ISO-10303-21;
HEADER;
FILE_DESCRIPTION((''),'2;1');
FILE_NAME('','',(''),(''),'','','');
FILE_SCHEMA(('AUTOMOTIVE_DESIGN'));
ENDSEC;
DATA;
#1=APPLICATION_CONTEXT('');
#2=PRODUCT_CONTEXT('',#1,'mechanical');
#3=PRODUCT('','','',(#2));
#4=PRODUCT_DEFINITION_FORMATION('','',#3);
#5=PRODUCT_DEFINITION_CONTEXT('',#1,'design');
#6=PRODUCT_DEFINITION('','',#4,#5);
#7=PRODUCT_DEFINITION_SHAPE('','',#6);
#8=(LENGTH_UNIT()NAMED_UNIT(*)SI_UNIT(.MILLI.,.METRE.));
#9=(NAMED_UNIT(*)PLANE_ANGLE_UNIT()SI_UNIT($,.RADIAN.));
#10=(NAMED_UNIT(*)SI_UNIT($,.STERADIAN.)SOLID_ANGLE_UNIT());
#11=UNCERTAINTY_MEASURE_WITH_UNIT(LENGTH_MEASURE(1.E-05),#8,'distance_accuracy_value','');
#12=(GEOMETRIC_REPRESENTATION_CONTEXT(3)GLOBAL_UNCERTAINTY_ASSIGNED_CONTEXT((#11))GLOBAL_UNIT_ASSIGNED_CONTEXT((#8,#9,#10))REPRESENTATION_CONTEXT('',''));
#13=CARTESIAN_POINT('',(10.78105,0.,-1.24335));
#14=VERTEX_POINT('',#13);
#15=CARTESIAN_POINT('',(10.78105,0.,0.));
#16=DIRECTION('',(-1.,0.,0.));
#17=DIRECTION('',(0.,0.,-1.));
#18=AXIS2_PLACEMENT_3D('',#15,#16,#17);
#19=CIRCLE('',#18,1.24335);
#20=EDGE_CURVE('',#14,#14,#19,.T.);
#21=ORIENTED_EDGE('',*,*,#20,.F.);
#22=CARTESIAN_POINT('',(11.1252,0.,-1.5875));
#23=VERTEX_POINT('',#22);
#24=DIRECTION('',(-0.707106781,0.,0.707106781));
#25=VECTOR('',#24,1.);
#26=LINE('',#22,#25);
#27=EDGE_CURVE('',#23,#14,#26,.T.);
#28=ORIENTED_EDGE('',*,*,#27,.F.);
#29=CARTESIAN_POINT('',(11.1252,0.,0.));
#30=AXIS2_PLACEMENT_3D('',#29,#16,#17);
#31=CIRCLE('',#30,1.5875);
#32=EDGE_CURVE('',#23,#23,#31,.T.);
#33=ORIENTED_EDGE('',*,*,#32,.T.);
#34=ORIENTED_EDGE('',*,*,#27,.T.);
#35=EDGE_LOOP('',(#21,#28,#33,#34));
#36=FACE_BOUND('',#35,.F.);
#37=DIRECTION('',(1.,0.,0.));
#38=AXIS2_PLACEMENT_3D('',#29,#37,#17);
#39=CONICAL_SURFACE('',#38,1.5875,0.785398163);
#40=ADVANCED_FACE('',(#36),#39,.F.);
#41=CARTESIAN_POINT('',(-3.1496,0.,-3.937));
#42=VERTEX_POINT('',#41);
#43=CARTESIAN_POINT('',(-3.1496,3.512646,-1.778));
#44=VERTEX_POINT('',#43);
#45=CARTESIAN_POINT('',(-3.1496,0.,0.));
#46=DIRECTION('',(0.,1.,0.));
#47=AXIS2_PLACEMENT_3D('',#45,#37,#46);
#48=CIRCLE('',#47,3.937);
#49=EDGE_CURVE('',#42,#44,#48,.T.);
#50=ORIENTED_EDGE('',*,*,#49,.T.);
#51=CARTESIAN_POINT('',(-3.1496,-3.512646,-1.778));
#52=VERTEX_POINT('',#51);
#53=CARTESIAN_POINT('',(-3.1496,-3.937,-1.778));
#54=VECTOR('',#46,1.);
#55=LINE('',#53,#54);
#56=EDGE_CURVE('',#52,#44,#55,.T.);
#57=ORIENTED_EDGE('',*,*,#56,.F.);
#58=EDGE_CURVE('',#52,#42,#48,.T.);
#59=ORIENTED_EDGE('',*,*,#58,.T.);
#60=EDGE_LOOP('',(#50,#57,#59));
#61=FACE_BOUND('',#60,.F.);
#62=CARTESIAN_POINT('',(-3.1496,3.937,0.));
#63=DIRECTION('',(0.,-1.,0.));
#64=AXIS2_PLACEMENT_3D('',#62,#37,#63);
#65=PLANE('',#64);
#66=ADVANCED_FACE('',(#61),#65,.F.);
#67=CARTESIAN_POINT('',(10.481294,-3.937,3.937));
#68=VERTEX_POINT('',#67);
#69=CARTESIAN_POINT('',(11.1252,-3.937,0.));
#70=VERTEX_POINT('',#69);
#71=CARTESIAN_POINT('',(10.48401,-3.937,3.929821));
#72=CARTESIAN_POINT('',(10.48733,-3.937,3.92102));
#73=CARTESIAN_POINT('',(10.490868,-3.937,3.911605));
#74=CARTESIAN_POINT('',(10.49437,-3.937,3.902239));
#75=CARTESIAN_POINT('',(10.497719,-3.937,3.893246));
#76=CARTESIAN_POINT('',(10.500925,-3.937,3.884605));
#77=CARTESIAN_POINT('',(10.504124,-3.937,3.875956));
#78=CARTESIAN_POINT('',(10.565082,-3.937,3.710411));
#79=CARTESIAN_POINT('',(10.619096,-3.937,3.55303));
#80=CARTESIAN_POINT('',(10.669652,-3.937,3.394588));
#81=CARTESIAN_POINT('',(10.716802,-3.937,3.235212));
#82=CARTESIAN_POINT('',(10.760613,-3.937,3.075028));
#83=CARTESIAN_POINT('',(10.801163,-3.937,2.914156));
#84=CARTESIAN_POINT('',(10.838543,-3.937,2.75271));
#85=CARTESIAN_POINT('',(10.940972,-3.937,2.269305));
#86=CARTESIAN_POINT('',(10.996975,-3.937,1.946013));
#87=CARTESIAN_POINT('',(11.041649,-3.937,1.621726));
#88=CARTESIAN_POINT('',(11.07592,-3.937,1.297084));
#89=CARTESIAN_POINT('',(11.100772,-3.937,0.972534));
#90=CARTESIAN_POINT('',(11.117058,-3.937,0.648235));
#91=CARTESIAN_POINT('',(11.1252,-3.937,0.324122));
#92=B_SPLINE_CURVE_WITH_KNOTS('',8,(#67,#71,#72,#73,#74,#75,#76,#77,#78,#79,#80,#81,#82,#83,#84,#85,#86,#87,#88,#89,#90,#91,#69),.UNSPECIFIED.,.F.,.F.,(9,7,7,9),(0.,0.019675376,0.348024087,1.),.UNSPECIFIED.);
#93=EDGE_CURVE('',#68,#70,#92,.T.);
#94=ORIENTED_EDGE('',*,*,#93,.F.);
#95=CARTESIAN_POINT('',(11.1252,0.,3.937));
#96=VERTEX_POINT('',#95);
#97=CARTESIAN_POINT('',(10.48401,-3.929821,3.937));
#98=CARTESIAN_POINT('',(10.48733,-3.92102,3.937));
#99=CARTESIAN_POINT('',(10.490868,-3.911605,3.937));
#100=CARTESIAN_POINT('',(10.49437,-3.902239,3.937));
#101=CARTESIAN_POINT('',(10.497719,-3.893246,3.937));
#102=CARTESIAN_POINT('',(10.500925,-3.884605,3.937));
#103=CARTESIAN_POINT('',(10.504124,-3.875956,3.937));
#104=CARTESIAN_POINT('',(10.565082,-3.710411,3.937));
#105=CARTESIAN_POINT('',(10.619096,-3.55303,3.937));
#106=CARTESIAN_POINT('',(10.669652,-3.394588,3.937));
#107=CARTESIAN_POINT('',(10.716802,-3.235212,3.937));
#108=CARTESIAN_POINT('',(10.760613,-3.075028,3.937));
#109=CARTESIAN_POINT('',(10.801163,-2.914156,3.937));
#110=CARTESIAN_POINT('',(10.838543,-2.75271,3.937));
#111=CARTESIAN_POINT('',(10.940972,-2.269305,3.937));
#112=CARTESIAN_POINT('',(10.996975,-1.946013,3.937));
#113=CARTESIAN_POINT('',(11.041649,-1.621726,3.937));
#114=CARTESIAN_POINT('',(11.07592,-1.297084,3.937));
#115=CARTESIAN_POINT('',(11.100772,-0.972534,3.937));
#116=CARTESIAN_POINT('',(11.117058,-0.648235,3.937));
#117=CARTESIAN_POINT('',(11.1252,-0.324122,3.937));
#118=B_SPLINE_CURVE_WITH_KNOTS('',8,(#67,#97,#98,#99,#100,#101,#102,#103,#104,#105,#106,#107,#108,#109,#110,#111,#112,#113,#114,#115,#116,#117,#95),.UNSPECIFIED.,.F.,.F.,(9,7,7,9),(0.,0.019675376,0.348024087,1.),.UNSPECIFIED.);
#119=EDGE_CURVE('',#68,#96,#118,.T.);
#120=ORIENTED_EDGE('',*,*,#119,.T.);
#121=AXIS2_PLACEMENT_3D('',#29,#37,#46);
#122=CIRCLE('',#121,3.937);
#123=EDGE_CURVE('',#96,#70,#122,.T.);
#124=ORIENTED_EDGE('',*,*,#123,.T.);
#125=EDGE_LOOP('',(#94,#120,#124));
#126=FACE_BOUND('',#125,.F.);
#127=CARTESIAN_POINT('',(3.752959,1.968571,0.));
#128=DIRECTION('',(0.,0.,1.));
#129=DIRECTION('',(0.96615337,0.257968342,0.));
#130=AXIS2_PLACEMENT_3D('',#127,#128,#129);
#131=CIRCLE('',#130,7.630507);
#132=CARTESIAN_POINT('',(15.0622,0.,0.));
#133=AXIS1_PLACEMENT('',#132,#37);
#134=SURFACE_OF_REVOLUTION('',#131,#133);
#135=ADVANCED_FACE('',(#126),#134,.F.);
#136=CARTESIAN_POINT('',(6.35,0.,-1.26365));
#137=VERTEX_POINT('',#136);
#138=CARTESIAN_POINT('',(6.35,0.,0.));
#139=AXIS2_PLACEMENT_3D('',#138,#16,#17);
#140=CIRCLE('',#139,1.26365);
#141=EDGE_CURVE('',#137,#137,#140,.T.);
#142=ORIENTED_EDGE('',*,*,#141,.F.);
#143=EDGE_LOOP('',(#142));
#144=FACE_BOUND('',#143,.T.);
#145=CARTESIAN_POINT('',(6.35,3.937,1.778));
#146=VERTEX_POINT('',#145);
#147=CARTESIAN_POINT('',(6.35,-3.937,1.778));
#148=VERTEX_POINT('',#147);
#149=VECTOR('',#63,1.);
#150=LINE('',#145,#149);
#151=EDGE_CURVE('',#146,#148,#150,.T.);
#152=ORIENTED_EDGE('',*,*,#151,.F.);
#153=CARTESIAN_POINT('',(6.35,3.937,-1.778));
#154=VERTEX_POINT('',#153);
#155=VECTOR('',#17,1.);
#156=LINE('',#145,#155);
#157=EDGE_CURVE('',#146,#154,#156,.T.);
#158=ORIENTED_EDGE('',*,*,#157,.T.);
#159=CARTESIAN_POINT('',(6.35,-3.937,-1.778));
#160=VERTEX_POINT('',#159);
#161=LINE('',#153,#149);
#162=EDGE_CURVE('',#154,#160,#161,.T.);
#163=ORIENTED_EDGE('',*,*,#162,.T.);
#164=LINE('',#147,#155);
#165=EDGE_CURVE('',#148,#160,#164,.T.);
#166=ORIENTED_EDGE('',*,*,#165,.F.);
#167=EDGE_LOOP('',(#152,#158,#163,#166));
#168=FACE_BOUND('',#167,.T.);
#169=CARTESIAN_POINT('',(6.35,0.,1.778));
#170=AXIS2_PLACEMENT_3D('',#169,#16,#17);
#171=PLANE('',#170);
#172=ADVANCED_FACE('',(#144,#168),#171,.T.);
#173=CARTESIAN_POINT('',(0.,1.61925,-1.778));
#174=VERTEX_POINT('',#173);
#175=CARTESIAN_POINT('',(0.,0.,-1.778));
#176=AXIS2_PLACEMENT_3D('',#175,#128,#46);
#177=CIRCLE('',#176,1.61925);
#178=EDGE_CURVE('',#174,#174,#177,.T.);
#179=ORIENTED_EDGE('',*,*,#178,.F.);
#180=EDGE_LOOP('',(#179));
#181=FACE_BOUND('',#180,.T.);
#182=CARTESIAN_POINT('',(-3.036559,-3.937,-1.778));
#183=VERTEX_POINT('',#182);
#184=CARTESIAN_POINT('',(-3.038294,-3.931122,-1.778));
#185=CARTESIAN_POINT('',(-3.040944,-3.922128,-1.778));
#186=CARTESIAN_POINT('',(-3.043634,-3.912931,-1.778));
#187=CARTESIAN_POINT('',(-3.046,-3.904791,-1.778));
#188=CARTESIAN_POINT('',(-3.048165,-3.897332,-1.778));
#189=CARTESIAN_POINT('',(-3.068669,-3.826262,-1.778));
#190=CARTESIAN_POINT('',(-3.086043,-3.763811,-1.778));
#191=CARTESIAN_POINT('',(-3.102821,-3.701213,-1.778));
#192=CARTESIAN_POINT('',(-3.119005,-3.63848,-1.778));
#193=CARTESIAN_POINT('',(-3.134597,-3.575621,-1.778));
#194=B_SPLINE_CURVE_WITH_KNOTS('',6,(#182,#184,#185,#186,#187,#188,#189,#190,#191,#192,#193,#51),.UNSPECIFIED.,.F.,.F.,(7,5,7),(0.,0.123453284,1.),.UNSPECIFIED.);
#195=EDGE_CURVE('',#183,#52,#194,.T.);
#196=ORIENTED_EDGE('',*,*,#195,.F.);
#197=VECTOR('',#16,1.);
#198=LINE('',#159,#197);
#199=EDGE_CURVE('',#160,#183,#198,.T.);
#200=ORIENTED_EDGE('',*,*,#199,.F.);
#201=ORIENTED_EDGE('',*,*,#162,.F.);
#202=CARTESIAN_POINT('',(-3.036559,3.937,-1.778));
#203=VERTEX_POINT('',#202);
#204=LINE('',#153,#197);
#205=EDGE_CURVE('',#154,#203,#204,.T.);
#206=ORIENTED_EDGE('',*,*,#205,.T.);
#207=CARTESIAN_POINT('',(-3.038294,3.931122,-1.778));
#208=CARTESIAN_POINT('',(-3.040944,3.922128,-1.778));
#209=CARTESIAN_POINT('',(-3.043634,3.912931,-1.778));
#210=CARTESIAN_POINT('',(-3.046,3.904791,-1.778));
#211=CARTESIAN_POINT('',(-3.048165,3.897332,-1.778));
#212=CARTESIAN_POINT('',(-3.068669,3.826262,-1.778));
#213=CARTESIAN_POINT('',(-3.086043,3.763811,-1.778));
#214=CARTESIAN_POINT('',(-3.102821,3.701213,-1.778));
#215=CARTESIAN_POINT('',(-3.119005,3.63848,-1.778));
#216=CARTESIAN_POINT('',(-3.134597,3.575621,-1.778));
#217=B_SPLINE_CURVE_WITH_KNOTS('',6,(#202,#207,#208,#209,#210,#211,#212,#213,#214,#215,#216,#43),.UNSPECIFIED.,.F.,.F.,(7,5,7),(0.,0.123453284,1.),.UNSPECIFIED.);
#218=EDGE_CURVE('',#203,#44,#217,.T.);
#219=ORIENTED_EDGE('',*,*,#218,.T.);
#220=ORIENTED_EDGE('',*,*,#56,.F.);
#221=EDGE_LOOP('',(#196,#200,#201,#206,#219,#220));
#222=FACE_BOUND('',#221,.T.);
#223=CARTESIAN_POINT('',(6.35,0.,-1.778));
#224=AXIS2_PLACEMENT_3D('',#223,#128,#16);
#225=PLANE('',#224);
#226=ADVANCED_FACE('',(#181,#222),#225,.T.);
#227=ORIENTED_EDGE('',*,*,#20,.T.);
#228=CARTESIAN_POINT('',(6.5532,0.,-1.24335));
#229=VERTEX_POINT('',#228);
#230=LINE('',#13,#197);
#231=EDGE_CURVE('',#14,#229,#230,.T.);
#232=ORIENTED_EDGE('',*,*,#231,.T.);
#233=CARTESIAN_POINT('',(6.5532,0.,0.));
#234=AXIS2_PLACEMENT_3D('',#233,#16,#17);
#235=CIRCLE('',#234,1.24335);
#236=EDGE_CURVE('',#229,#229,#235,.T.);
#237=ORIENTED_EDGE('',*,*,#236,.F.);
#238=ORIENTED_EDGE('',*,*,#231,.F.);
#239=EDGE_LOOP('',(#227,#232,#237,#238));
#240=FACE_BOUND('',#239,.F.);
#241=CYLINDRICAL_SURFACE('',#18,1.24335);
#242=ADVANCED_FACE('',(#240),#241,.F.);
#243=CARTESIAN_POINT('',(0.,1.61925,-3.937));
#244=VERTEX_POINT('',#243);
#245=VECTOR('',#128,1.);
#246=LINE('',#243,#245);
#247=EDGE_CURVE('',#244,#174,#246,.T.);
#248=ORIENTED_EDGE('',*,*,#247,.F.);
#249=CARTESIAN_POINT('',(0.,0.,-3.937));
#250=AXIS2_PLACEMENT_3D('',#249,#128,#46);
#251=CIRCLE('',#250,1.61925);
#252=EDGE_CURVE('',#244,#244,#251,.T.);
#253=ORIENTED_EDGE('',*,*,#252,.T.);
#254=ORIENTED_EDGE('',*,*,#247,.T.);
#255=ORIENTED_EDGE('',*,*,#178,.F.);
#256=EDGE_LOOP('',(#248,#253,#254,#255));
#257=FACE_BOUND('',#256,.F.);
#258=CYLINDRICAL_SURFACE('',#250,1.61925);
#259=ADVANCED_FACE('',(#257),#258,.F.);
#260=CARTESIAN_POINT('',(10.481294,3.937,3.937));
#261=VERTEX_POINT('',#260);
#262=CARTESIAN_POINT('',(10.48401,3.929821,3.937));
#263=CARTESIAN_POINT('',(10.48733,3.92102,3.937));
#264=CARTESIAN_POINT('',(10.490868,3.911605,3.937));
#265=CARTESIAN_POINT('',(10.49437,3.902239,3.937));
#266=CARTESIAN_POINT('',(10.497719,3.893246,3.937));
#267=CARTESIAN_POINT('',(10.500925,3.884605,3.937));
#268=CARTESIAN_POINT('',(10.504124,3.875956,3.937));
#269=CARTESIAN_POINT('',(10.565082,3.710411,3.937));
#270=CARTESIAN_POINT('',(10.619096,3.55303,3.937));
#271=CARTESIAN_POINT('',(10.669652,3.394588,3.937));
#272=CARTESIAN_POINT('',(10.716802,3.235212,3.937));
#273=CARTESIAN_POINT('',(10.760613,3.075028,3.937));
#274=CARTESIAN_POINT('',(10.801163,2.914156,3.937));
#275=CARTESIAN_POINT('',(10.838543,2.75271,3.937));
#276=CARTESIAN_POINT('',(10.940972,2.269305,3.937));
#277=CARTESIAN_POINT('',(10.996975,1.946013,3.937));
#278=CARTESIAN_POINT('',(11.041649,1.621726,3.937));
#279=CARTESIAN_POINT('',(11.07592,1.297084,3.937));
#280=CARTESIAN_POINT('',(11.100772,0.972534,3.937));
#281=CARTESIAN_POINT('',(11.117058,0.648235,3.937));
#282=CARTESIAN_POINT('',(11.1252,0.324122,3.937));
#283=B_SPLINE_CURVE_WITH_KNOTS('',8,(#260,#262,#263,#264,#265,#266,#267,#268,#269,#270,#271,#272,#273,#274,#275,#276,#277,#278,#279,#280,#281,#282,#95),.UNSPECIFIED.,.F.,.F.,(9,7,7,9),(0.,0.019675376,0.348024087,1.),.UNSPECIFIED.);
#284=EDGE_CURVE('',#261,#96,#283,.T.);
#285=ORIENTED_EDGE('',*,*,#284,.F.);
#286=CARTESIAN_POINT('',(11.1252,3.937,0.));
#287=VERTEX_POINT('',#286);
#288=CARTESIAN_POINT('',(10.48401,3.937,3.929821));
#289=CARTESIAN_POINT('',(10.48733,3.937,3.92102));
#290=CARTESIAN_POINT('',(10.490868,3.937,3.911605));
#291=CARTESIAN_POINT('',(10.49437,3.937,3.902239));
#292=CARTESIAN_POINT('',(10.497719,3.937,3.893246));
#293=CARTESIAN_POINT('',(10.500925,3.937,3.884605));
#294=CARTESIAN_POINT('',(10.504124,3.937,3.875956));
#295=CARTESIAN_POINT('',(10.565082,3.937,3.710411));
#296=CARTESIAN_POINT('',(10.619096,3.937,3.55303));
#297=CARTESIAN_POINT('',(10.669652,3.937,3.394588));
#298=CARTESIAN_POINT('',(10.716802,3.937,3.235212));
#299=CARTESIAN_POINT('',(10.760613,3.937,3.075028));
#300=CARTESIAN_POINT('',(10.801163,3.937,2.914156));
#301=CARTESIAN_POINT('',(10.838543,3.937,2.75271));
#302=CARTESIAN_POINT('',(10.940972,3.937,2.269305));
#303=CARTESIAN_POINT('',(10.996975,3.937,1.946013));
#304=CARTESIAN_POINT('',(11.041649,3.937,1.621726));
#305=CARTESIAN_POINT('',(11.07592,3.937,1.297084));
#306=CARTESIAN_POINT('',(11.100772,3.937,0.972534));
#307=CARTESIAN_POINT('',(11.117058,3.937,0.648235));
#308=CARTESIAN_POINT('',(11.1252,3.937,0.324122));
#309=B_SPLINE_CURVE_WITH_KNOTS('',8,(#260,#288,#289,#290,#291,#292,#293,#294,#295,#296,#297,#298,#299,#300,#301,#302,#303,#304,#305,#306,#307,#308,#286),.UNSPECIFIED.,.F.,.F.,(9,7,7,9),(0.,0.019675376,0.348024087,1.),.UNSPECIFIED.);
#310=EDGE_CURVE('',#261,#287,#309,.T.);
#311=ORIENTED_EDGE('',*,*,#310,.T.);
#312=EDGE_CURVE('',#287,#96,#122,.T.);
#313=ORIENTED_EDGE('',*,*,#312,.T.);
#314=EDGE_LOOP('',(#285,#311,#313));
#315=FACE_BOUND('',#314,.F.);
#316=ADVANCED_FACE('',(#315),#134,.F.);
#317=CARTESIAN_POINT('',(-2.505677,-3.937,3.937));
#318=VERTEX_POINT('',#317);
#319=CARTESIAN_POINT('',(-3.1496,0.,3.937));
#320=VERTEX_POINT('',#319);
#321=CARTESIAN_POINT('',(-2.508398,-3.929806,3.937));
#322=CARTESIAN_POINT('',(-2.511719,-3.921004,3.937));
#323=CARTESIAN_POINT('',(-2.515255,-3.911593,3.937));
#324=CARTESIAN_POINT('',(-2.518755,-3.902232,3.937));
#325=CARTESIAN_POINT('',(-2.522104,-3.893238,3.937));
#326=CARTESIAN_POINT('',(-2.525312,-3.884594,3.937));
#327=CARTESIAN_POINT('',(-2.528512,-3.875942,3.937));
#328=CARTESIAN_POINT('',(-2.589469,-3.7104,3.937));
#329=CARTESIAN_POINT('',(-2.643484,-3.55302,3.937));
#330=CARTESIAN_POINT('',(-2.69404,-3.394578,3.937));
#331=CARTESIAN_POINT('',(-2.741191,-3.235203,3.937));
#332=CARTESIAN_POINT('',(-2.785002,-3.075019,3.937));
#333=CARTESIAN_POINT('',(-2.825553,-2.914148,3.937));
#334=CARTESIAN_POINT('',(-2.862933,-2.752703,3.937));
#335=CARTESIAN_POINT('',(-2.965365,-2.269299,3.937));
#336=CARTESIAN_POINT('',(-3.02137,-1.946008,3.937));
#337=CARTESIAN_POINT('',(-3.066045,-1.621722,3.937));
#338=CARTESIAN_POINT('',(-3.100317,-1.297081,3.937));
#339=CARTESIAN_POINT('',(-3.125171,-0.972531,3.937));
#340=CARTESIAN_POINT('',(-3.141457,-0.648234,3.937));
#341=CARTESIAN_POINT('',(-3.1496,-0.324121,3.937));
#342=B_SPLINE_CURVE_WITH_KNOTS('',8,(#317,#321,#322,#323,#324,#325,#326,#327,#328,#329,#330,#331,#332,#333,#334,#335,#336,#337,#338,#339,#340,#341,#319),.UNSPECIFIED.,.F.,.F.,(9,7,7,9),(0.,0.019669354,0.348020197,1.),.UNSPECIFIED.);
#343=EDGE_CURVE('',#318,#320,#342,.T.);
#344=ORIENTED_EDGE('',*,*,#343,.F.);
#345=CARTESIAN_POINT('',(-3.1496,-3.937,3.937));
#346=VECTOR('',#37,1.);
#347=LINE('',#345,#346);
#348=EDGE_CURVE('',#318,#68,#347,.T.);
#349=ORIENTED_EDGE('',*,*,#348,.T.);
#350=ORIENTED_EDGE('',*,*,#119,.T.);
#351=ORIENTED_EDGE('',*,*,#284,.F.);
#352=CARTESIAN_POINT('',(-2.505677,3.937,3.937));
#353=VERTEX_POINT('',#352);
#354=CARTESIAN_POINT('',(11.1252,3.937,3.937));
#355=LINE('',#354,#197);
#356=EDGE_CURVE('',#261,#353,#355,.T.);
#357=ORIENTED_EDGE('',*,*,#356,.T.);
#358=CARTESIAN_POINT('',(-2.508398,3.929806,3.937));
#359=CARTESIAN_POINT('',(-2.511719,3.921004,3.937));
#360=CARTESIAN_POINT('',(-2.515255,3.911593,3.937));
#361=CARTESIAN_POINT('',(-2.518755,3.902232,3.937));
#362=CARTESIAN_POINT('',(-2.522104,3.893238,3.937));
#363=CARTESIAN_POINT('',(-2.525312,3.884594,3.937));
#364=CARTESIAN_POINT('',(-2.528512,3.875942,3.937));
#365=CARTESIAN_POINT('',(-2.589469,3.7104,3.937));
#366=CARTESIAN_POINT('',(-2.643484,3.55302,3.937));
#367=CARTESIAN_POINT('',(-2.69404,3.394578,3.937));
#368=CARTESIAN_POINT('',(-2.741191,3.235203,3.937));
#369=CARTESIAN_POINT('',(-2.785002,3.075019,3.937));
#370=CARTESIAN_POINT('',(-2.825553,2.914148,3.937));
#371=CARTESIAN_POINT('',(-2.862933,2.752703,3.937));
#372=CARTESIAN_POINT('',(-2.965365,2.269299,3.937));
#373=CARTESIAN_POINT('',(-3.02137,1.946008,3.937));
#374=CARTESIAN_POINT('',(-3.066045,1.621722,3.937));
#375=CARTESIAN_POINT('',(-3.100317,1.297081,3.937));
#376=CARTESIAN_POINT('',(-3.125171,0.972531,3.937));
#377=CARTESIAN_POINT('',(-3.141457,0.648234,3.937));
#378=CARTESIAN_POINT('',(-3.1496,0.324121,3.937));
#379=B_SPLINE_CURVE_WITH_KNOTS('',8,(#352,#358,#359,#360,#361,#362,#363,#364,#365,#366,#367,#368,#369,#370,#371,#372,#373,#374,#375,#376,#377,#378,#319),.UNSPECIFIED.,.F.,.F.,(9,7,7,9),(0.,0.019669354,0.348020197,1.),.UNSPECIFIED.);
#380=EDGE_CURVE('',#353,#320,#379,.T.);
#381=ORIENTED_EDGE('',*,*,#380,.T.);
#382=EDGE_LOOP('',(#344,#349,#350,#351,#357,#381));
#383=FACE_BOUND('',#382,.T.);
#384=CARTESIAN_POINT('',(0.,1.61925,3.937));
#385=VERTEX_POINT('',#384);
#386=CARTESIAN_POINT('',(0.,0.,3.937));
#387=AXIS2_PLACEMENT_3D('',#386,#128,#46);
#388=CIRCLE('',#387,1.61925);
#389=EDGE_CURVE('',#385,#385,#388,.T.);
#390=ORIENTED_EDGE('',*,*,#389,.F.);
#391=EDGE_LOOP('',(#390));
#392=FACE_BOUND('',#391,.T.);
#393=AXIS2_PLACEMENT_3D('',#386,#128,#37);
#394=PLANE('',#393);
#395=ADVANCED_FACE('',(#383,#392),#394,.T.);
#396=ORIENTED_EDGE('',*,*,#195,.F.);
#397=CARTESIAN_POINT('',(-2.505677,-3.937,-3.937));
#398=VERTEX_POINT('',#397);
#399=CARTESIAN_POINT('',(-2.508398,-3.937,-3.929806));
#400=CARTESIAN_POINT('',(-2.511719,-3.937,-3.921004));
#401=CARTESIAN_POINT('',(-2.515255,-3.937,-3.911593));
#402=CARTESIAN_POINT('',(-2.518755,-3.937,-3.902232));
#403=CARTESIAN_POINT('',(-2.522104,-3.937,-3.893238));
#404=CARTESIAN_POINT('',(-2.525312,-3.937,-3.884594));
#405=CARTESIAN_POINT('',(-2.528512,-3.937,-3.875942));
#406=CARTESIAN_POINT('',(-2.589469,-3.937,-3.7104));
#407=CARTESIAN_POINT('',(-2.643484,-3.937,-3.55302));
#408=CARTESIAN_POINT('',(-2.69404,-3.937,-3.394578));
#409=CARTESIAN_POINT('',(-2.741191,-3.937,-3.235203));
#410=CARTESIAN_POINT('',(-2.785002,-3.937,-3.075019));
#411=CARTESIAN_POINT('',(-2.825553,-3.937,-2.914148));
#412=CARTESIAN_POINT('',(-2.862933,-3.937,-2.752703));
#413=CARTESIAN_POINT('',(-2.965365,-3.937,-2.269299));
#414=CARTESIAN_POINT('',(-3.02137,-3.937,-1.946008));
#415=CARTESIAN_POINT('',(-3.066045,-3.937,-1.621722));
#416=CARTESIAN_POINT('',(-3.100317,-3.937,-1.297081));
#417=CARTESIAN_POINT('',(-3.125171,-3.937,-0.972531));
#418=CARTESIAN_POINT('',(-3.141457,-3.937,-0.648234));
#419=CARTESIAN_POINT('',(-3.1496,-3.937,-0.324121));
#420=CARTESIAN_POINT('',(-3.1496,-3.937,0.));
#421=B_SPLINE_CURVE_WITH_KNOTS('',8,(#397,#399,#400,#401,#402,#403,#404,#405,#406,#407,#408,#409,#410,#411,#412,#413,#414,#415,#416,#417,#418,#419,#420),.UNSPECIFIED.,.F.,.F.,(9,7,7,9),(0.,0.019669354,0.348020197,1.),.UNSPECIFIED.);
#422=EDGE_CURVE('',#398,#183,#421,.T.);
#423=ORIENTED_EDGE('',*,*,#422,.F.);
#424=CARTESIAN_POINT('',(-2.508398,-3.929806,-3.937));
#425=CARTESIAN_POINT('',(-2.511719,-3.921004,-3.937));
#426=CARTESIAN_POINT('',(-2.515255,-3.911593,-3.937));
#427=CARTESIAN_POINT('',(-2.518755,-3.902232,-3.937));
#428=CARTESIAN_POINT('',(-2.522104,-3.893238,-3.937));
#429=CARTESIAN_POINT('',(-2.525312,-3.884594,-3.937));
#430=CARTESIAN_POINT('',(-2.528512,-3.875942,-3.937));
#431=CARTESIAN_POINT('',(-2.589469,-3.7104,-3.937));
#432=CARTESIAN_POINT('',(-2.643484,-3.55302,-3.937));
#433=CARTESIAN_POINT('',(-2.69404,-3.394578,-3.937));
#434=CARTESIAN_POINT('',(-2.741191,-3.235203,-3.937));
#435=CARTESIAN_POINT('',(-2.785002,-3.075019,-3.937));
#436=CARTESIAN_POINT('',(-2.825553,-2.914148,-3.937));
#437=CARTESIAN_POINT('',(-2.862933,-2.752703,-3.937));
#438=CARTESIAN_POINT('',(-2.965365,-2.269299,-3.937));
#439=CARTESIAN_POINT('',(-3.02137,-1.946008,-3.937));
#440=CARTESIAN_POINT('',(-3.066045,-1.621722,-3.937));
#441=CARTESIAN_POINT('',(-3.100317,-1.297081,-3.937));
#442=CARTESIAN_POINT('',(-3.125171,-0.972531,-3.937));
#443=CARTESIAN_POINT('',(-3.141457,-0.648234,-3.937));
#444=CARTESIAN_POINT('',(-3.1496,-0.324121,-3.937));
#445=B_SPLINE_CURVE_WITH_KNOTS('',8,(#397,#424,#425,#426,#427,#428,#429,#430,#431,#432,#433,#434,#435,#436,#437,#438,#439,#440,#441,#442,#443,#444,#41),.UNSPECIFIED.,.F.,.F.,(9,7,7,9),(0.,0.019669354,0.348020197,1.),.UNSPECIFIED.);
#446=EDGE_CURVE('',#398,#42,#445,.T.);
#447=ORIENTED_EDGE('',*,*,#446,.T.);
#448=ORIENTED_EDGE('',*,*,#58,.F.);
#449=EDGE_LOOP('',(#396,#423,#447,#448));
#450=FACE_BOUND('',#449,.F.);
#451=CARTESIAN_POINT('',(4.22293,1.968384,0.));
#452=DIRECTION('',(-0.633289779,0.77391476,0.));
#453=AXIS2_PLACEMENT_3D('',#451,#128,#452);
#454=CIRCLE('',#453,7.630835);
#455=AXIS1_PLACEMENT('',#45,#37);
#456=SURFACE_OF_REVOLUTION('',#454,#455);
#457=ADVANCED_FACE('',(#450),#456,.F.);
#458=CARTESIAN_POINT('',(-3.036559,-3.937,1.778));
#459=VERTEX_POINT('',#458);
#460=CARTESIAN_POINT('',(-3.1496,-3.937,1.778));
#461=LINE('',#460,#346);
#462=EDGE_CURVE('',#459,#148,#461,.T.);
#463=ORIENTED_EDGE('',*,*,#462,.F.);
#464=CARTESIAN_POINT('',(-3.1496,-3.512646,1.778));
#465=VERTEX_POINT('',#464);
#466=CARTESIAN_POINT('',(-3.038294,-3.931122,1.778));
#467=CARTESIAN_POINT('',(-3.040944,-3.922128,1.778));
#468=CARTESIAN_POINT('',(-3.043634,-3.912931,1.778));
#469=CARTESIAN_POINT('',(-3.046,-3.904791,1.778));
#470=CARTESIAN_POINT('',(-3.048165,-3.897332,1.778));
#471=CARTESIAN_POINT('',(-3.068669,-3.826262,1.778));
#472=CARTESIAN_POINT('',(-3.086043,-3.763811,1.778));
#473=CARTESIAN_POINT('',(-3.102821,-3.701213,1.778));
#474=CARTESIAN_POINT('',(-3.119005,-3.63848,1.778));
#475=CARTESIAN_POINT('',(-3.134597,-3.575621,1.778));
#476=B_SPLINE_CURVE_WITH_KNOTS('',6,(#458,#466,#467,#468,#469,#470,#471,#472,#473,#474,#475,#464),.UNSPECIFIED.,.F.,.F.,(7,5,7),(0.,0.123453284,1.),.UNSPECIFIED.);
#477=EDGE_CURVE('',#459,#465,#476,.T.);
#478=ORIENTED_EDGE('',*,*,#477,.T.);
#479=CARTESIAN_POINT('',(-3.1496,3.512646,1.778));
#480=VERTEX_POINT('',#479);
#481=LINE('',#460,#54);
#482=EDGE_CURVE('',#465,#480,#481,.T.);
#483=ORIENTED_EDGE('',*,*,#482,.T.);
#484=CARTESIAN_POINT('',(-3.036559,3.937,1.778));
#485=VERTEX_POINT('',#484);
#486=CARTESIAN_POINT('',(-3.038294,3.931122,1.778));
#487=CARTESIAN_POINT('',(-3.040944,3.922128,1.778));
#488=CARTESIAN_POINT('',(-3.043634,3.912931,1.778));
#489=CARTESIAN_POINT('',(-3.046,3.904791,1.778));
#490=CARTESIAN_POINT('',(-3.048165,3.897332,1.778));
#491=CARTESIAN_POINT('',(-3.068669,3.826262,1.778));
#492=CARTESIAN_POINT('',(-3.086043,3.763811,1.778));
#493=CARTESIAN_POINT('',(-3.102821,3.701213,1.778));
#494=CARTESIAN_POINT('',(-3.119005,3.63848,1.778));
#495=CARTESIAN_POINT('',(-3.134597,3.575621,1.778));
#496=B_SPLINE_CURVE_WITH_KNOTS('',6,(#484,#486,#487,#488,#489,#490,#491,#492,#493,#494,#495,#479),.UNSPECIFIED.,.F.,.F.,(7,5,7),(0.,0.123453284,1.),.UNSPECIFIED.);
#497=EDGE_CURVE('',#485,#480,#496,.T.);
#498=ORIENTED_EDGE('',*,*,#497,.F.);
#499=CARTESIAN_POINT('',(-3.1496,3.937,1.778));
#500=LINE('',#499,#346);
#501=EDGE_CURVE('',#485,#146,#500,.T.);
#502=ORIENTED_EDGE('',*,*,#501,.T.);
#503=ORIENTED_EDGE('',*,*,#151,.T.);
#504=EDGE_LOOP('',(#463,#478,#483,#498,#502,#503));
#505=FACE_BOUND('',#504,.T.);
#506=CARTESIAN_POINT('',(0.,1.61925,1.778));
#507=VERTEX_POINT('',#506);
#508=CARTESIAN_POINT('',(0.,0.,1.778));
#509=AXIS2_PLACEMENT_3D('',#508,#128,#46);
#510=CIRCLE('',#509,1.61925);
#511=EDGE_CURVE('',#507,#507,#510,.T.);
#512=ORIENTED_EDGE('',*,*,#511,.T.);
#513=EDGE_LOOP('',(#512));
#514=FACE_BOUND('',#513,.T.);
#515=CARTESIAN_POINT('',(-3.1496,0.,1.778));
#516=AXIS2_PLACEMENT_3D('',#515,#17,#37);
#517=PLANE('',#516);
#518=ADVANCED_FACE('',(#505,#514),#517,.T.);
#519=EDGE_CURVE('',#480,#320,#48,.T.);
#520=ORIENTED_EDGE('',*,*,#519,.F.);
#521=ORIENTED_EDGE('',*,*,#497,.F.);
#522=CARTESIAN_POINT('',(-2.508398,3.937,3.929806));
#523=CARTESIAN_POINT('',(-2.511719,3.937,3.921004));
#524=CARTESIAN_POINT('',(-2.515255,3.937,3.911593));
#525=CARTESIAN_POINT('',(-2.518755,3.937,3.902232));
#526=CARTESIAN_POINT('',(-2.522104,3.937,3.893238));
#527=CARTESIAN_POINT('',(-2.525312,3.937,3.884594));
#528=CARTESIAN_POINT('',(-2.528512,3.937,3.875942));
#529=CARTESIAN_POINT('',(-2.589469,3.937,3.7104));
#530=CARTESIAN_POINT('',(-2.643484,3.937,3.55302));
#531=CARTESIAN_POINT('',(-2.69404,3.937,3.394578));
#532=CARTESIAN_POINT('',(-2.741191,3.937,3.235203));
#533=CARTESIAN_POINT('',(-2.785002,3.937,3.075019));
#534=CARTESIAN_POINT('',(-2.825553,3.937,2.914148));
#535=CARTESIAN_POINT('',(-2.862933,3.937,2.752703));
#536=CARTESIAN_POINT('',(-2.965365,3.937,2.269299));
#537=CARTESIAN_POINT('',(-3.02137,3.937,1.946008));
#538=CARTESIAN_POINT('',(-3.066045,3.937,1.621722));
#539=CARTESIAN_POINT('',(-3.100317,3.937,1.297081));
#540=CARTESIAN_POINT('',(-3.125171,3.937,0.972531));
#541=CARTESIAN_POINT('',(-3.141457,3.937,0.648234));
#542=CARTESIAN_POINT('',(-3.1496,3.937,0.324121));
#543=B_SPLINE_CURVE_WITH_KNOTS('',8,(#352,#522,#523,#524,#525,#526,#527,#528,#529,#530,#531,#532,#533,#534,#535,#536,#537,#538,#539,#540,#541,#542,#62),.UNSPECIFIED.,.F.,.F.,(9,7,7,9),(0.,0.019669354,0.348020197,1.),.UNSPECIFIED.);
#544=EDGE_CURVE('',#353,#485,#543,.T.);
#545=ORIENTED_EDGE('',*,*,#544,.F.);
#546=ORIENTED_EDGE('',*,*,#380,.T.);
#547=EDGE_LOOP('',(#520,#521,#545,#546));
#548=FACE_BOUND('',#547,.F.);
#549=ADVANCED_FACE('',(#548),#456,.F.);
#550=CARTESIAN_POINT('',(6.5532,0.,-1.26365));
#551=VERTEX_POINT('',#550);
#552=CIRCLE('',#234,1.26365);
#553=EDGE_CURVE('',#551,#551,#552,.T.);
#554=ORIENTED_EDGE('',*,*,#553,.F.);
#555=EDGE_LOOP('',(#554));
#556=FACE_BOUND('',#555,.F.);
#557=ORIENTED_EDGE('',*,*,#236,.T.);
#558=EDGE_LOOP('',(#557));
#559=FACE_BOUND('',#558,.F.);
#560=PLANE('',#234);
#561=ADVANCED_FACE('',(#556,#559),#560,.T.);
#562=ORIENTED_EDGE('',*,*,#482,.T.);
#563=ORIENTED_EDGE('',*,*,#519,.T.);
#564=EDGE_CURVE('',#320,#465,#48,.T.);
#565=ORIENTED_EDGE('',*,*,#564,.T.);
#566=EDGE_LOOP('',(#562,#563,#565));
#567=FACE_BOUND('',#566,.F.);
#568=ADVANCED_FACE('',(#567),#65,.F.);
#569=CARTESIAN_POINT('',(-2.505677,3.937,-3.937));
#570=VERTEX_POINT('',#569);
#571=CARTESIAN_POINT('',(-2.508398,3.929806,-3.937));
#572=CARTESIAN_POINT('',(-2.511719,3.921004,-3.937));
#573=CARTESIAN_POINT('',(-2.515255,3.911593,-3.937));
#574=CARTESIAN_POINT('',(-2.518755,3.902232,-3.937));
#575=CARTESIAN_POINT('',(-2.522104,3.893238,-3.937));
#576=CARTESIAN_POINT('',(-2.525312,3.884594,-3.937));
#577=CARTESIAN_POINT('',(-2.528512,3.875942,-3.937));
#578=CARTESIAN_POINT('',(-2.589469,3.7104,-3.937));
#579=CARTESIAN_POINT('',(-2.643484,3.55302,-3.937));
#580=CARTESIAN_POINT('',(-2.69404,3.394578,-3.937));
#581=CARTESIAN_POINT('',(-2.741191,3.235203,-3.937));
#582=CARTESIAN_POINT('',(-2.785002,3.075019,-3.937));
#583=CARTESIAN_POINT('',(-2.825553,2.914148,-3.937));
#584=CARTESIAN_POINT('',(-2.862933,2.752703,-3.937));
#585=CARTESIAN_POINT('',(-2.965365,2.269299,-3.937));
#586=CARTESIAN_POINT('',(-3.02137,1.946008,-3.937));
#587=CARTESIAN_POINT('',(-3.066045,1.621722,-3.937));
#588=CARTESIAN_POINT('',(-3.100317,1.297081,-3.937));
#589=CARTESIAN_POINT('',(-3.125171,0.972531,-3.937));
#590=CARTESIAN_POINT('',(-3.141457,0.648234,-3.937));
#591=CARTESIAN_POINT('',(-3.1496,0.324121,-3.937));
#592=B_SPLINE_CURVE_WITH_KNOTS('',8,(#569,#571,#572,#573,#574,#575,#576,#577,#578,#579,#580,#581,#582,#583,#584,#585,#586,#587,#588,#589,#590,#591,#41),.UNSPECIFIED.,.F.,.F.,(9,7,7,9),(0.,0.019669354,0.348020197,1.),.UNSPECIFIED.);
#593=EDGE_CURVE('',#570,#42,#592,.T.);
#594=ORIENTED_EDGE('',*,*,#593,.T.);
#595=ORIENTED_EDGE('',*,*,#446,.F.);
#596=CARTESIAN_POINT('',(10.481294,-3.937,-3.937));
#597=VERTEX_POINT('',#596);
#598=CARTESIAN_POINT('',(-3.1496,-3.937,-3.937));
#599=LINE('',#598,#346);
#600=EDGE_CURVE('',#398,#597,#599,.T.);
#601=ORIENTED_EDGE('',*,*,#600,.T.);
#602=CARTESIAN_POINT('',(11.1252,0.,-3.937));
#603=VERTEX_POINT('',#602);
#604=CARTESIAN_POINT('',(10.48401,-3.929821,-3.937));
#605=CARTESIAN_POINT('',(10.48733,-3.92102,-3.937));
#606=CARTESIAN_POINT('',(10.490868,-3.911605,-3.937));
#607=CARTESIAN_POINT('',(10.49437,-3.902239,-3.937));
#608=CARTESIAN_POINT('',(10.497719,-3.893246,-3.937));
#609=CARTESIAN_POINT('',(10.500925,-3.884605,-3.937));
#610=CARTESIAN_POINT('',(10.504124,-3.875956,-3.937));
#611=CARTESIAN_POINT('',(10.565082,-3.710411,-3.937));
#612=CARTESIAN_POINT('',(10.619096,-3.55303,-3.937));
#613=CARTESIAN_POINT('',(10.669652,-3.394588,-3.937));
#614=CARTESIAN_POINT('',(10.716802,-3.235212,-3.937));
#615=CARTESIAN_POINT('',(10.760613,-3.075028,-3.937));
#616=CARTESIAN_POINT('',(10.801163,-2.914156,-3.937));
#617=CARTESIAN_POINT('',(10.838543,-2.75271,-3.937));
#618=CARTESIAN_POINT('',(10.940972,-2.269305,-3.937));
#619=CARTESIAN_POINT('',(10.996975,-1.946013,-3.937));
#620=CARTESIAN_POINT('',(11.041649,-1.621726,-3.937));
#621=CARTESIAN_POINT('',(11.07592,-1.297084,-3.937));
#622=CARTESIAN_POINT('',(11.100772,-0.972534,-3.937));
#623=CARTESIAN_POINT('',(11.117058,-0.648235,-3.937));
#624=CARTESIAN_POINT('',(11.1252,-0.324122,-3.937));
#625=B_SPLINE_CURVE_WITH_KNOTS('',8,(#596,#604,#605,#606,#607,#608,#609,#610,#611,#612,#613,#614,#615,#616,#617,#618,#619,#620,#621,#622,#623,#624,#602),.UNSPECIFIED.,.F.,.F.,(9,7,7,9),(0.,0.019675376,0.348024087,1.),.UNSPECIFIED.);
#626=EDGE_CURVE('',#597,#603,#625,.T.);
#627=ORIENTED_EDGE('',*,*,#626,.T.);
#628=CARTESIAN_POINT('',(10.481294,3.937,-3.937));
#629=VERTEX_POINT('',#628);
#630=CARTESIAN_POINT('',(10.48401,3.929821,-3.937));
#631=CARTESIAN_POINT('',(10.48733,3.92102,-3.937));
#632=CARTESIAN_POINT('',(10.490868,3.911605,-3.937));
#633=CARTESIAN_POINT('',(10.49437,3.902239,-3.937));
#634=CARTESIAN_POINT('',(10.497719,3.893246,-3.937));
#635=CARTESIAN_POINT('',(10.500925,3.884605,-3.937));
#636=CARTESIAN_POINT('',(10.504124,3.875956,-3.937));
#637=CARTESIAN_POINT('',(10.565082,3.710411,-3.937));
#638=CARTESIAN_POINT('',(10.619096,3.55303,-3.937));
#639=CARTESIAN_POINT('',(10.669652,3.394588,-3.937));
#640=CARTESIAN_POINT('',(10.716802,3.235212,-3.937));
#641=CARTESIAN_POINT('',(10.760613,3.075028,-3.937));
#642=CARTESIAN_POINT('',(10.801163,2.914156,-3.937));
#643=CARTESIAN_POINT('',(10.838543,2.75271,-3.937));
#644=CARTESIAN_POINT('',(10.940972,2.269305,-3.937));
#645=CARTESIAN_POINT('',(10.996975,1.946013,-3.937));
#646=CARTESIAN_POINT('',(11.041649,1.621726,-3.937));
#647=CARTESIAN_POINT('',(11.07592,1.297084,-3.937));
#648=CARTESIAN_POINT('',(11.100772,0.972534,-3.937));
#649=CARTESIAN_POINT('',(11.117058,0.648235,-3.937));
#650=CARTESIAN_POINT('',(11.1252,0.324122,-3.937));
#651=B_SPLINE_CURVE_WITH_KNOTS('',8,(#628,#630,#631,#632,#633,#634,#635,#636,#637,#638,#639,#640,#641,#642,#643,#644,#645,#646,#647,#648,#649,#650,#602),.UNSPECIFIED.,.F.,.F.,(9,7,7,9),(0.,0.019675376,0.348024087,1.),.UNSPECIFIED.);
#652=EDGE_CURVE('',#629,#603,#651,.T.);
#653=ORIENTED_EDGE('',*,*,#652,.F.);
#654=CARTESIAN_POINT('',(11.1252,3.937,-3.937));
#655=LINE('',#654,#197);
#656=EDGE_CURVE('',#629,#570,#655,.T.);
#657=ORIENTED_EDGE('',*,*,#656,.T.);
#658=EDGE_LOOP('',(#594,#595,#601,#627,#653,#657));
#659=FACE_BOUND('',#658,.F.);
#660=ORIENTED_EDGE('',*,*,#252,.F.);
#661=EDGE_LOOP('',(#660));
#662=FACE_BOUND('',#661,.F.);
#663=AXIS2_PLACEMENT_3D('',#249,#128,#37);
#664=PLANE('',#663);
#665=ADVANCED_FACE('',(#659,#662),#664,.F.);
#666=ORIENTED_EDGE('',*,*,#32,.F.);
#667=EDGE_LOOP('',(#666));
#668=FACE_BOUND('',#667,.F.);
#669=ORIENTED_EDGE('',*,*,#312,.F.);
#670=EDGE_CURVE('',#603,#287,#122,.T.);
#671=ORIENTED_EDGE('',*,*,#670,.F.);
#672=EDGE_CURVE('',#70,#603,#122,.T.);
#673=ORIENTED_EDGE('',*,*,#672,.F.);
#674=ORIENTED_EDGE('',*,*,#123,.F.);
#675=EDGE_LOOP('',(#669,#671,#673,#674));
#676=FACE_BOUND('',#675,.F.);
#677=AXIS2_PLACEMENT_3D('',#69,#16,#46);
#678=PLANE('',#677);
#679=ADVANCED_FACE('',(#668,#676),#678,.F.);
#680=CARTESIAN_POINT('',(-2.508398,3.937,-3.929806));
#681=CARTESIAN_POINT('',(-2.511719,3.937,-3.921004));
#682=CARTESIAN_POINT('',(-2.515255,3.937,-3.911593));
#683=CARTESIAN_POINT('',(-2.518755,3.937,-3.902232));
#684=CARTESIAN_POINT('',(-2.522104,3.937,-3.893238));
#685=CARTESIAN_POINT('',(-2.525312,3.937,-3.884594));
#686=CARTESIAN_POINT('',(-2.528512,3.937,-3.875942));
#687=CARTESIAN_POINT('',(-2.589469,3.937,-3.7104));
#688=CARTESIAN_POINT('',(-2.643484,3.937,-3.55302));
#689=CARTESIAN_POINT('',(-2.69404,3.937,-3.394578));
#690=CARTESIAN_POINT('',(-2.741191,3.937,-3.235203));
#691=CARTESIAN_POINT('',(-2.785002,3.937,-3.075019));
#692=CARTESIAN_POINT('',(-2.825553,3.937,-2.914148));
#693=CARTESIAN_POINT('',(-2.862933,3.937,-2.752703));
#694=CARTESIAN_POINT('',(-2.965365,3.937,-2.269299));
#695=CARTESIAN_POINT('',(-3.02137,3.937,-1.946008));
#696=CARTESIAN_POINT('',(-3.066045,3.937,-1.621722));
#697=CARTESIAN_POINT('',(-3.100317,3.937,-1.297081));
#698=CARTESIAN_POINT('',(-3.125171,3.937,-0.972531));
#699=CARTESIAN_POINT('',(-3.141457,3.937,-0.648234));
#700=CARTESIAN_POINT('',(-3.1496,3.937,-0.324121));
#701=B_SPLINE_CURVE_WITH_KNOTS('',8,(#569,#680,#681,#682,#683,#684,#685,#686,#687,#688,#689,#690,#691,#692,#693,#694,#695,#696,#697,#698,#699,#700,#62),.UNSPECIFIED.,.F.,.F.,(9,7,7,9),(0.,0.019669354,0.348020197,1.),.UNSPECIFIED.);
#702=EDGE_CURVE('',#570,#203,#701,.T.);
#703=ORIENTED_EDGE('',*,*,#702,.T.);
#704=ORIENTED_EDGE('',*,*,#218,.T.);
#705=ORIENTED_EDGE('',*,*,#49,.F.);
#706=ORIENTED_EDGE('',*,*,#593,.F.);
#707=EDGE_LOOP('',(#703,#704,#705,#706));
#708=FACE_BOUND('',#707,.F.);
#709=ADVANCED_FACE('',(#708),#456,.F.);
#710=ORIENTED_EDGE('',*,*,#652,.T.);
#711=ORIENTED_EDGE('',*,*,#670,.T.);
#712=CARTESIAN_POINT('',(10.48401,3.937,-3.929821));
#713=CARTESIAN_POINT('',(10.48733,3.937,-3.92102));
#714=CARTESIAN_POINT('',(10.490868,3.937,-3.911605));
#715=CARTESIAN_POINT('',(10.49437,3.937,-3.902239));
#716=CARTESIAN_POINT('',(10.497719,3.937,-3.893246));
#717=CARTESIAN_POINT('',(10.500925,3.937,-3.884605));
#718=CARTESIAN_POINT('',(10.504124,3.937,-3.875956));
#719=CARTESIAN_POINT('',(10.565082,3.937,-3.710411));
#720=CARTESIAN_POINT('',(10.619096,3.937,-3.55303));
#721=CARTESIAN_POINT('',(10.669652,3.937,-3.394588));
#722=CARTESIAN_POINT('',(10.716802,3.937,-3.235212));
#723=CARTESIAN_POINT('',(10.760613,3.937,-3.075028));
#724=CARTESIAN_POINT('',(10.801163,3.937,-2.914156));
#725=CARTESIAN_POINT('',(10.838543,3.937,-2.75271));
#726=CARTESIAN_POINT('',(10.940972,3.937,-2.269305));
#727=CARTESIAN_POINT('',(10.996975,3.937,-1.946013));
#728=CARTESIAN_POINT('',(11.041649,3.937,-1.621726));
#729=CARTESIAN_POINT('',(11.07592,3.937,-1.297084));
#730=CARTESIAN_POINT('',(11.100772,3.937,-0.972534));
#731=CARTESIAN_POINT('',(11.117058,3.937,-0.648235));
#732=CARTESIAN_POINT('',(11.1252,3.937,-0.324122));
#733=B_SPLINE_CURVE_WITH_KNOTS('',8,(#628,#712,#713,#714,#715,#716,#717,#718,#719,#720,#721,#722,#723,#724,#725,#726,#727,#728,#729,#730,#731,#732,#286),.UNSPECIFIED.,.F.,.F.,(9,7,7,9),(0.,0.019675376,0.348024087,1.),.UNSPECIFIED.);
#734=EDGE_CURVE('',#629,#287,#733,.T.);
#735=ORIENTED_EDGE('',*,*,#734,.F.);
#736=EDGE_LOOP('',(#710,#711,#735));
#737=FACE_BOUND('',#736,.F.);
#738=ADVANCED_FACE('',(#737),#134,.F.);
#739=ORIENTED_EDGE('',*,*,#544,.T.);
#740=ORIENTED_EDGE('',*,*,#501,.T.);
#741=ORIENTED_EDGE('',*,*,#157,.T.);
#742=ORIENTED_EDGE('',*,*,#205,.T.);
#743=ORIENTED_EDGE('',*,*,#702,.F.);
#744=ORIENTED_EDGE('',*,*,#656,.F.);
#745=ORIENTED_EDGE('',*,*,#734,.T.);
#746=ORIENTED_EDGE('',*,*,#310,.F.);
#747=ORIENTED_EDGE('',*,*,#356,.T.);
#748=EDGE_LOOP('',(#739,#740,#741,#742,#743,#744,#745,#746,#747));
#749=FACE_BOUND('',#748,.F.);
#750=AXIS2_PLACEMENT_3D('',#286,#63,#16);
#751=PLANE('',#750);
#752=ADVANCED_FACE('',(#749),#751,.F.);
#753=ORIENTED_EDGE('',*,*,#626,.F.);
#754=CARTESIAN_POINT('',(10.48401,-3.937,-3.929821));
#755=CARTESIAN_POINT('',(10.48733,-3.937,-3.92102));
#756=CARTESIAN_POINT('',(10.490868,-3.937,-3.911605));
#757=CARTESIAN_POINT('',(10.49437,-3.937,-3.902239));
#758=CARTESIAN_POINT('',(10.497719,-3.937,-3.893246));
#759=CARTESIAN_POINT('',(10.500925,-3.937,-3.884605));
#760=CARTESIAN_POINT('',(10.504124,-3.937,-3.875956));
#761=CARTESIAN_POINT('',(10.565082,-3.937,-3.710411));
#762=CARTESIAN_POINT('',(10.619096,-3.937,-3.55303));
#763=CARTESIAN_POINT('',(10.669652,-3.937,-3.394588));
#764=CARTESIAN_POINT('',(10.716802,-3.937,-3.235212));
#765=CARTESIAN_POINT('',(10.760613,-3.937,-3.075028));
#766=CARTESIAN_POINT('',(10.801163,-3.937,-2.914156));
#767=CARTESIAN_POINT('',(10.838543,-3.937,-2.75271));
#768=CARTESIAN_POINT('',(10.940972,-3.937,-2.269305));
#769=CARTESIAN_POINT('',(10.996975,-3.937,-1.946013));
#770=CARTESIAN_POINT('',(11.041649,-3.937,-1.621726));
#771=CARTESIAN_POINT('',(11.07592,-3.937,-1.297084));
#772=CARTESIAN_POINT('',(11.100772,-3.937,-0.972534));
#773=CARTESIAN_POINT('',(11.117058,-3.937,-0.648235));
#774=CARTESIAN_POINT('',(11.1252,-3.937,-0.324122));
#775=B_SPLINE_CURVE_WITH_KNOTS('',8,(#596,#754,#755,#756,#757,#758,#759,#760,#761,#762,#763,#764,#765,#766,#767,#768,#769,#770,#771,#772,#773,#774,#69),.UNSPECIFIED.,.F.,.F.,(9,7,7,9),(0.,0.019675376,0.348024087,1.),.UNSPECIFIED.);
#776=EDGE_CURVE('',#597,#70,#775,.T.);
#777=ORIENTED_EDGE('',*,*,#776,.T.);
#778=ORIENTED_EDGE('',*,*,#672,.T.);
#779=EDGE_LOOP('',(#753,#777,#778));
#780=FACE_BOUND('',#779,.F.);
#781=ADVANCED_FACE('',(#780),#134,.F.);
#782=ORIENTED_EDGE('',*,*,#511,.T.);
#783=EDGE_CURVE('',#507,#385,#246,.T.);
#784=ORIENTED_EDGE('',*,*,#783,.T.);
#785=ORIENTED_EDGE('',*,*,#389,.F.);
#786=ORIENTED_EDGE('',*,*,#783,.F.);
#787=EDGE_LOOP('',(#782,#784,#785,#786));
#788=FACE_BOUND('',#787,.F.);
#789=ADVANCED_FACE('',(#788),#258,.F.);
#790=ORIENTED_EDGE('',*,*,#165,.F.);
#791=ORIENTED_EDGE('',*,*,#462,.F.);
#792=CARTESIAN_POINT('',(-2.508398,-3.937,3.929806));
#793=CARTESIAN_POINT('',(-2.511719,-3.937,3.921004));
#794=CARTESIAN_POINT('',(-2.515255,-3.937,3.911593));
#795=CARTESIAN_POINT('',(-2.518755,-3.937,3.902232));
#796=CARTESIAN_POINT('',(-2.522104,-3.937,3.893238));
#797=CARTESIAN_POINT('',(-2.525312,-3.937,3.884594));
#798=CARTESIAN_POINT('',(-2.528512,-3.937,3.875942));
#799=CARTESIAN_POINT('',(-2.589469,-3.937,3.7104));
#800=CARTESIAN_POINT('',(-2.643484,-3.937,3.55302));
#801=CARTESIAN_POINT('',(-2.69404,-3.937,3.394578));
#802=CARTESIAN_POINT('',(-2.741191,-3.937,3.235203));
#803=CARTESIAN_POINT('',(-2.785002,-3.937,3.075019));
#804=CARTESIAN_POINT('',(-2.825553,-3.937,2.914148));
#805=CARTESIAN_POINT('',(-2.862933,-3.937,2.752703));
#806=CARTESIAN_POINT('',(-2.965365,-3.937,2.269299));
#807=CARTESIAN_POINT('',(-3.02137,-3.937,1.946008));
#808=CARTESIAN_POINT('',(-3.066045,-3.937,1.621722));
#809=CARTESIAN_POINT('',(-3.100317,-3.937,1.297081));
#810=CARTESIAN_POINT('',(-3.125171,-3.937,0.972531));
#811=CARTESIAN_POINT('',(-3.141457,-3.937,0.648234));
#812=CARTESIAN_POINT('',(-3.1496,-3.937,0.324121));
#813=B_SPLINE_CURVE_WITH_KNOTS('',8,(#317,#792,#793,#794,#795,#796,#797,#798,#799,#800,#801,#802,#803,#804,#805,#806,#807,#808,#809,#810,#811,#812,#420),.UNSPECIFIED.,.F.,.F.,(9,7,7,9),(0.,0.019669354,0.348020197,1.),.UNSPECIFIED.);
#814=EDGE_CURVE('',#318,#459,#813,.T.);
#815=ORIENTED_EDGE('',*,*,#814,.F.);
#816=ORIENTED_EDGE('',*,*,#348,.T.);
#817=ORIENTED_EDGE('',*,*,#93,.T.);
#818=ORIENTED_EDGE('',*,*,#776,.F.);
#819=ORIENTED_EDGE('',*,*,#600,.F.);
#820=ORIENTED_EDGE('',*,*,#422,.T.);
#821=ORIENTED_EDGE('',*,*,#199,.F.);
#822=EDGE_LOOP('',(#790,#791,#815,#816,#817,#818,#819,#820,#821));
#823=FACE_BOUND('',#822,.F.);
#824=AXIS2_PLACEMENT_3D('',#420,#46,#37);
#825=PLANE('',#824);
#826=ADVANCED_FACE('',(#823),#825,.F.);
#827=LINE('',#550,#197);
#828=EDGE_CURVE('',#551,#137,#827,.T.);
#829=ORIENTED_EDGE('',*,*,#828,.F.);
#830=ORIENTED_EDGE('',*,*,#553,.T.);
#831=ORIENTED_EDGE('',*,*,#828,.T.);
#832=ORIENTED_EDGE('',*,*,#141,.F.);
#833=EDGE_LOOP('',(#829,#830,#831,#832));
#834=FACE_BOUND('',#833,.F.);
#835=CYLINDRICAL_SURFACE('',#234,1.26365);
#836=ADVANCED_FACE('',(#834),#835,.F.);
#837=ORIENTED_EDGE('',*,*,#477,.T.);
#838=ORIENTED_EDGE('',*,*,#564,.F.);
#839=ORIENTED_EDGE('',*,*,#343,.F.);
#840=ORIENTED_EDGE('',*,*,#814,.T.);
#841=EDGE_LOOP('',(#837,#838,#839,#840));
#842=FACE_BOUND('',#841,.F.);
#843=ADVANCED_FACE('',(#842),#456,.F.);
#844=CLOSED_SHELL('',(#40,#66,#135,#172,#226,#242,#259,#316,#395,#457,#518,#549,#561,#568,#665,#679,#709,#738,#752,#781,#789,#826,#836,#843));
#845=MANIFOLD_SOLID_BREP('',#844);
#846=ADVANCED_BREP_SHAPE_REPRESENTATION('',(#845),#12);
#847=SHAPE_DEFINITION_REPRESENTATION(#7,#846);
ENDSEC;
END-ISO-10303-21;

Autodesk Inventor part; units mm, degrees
sketch "Sketch_1" plane through (0, 0, 0) normal (0, 0, 1) x (1, 0, 0)
  line L0 (-3.1496, 3.937) -> (-3.1496, -3.937)
  line L1 (-3.1496, -3.937) -> (11.1252, -3.937)
  line L2 (11.1252, -3.937) -> (11.1252, 3.937)
  line L3 (11.1252, 3.937) -> (-3.1496, 3.937)
extrude "Extrusion1" add sketch "Sketch_1" along normal mid plane 7.874
sketch "Sketch_2" plane through (0, 0, 0) normal (0, 1, 0) x (-1, 0, 0)
  line L0 (3.1496, -1.778) -> (3.1496, 1.778)
  line L1 (3.1496, 1.778) -> (-6.35, 1.778)
  line L2 (-6.35, 1.778) -> (-6.35, -1.778)
  line L3 (-6.35, -1.778) -> (3.1496, -1.778)
extrude "Extrusion2" cut sketch "Sketch_2" along normal mid plane 7.874
sketch "Sketch3" plane through (11.1252, -3.937, 3.937) normal (1, 0, 0) x (0, 0, -1)
  point P0 (3.937, 3.937)
hole "Drilling 1" at (11.1252, 0, 0) direction (-1, 0, 0) diameter 2.4867 depth 4.572 countersink diameter 3.175 countersink angle 90 thread size "5-40 UNC" class "2B" standard "ANSI Unified Screw Threads"
sketch "Sketch4" plane through (6.5532, 0, 0) normal (1, 0, 0) x (0, 0, -1)
  point P0 (0, 0)
hole "Drilling 2" at (6.5532, 0, 0) direction (-1, 0, 0) diameter 2.5273 depth 0.2032
sketch "Sketch5" plane through (0, 0, -3.937) normal (0, 0, -1) x (-1, 0, 0)
  point P0 (0, 0)
hole "Drilling 3" at (0, 0, -3.937) direction (0, 0, 1) diameter 3.2385 depth 7.874
sketch "Sketch_9" plane through (0, 0, 0) normal (0, 0, 1) x (1, 0, 0)
  line L0 (15.0622, 0) -> (11.1252, 0)
  line L1 (11.1252, 0) -> (11.1252, 3.937)
  arc A0 (11.1252, 3.937) -> (8.5852, 7.874) centre (3.7528, 1.9685) ccw
  line L2 (8.5852, 7.874) -> (15.0622, 7.874)
  line L3 (15.0622, 7.874) -> (15.0622, 0)
  line L4 (15.0622, 0) -> (11.1252, 0)
revolve "Revolution1" cut sketch "Sketch_9" angle 360 about axis through (15.0622, 0, 0) along (1, 0, 0)
sketch "Sketch_10" plane through (0, 0, 0) normal (0, 0, 1) x (1, 0, 0)
  line L0 (-3.1496, 0) -> (-7.0866, 0)
  line L1 (-7.0866, 0) -> (-7.0866, 7.874)
  line L2 (-7.0866, 7.874) -> (-0.6096, 7.874)
  arc A0 (-0.6096, 7.874) -> (-3.1496, 3.937) centre (4.2228, 1.9685) ccw
  line L3 (-3.1496, 3.937) -> (-3.1496, 0)
  line L4 (-3.1496, 0) -> (-7.0866, 0)
revolve "Revolution2" cut sketch "Sketch_10" angle 360 about axis through (-3.1496, 0, 0) along (1, 0, 0)
ref_plane "th1_XY" through (11.1252, 1.5875, 0) normal (0, 0, 1) x (1, 0, 0)
ref_plane "th1_YZ" through (11.1252, 1.5875, 0) normal (1, 0, 0) x (0, 1, 0)
ref_plane "th1_ZX" through (11.1252, 1.5875, 0) normal (0, 1, 0) x (0, 0, 1)
ref_plane "th2_XY" through (11.1252, -1.5875, 0) normal (0, 0, 1) x (1, 0, 0)
ref_plane "th2_YZ" through (11.1252, -1.5875, 0) normal (1, 0, 0) x (0, 1, 0)
ref_plane "th2_ZX" through (11.1252, -1.5875, 0) normal (0, 1, 0) x (0, 0, 1)
ref_plane "rod_clevis_body_XY" through (0, 0, 0) normal (0, 0, 1) x (1, 0, 0)
ref_plane "rod_clevis_body_YZ" through (0, 0, 0) normal (1, 0, 0) x (0, 1, 0)
ref_plane "rod_clevis_body_ZX" through (0, 0, 0) normal (0, 1, 0) x (0, 0, 1)
ref_plane "piston_rod_clevis_XY" through (11.1252, 0, 0) normal (1, 0, 0) x (0, 0, -1)
ref_plane "piston_rod_clevis_YZ" through (11.1252, 0, 0) normal (0, 0, -1) x (0, 1, 0)
ref_plane "piston_rod_clevis_ZX" through (11.1252, 0, 0) normal (0, 1, 0) x (1, 0, 0)
ref_plane "dummy_XY" through (0, 0, 0) normal (0, 0, 1) x (1, 0, 0)
ref_plane "dummy_YZ" through (0, 0, 0) normal (1, 0, 0) x (0, 1, 0)
ref_plane "dummy_ZX" through (0, 0, 0) normal (0, 1, 0) x (0, 0, 1)
ref_plane "l11_XY" through (11.1252, 3.937, 0) normal (0, 0, 1) x (1, 0, 0)
ref_plane "l11_YZ" through (11.1252, 3.937, 0) normal (1, 0, 0) x (0, 1, 0)
ref_plane "l11_ZX" through (11.1252, 3.937, 0) normal (0, 1, 0) x (0, 0, 1)
ref_plane "l12_XY" through (0, 3.937, 0) normal (0, 0, 1) x (1, 0, 0)
ref_plane "l12_YZ" through (0, 3.937, 0) normal (1, 0, 0) x (0, 1, 0)
ref_plane "l12_ZX" through (0, 3.937, 0) normal (0, 1, 0) x (0, 0, 1)
ref_plane "l1_XY" through (11.1252, 3.937, 0) normal (0, 0, 1) x (1, 0, 0)
ref_plane "l1_YZ" through (11.1252, 3.937, 0) normal (1, 0, 0) x (0, 1, 0)
ref_plane "l1_ZX" through (11.1252, 3.937, 0) normal (0, 1, 0) x (0, 0, 1)
ref_plane "h1_XY" through (-3.1496, 3.937, 0) normal (0, 0, 1) x (1, 0, 0)
ref_plane "h1_YZ" through (-3.1496, 3.937, 0) normal (1, 0, 0) x (0, 1, 0)
ref_plane "h1_ZX" through (-3.1496, 3.937, 0) normal (0, 1, 0) x (0, 0, 1)
ref_plane "l2_XY" through (-3.1496, 3.937, 0) normal (0, 0, 1) x (1, 0, 0)
ref_plane "l2_YZ" through (-3.1496, 3.937, 0) normal (1, 0, 0) x (0, 1, 0)
ref_plane "l2_ZX" through (-3.1496, 3.937, 0) normal (0, 1, 0) x (0, 0, 1)
ref_plane "h2_XY" through (-3.1496, -3.937, 0) normal (0, 0, 1) x (1, 0, 0)
ref_plane "h2_YZ" through (-3.1496, -3.937, 0) normal (1, 0, 0) x (0, 1, 0)
ref_plane "h2_ZX" through (-3.1496, -3.937, 0) normal (0, 1, 0) x (0, 0, 1)
ref_plane "w11_XY" through (-3.1496, 0, -1.778) normal (0, 1, 0) x (1, 0, 0)
ref_plane "w11_YZ" through (-3.1496, 0, -1.778) normal (1, 0, 0) x (0, 0, -1)
ref_plane "w11_ZX" through (-3.1496, 0, -1.778) normal (0, 0, -1) x (0, 1, 0)
ref_plane "w12_XY" through (-3.1496, 0, 1.778) normal (0, 1, 0) x (1, 0, 0)
ref_plane "w12_YZ" through (-3.1496, 0, 1.778) normal (1, 0, 0) x (0, 0, -1)
ref_plane "w12_ZX" through (-3.1496, 0, 1.778) normal (0, 0, -1) x (0, 1, 0)
ref_plane "l21_XY" through (11.1252, 0, 0) normal (0, 1, 0) x (1, 0, 0)
ref_plane "l21_YZ" through (11.1252, 0, 0) normal (1, 0, 0) x (0, 0, -1)
ref_plane "l21_ZX" through (11.1252, 0, 0) normal (0, 0, -1) x (0, 1, 0)
ref_plane "l22_XY" through (6.35, 0, 0) normal (0, 1, 0) x (1, 0, 0)
ref_plane "l22_YZ" through (6.35, 0, 0) normal (1, 0, 0) x (0, 0, -1)
ref_plane "l22_ZX" through (6.35, 0, 0) normal (0, 0, -1) x (0, 1, 0)
ref_plane "w1_XY" through (11.1252, 0, -3.937) normal (0, 1, 0) x (1, 0, 0)
ref_plane "w1_YZ" through (11.1252, 0, -3.937) normal (1, 0, 0) x (0, 0, -1)
ref_plane "w1_ZX" through (11.1252, 0, -3.937) normal (0, 0, -1) x (0, 1, 0)
ref_plane "w2_XY" through (11.1252, 0, 3.937) normal (0, 1, 0) x (1, 0, 0)
ref_plane "w2_YZ" through (11.1252, 0, 3.937) normal (1, 0, 0) x (0, 0, -1)
ref_plane "w2_ZX" through (11.1252, 0, 3.937) normal (0, 0, -1) x (0, 1, 0)
ref_plane "to_cylinder_XY" through (6.35, 0, 0) normal (1, 0, 0) x (0, 0, -1)
ref_plane "to_cylinder_YZ" through (6.35, 0, 0) normal (0, 0, -1) x (0, 1, 0)
ref_plane "to_cylinder_ZX" through (6.35, 0, 0) normal (0, 1, 0) x (1, 0, 0)
properties part number "D-26646"
